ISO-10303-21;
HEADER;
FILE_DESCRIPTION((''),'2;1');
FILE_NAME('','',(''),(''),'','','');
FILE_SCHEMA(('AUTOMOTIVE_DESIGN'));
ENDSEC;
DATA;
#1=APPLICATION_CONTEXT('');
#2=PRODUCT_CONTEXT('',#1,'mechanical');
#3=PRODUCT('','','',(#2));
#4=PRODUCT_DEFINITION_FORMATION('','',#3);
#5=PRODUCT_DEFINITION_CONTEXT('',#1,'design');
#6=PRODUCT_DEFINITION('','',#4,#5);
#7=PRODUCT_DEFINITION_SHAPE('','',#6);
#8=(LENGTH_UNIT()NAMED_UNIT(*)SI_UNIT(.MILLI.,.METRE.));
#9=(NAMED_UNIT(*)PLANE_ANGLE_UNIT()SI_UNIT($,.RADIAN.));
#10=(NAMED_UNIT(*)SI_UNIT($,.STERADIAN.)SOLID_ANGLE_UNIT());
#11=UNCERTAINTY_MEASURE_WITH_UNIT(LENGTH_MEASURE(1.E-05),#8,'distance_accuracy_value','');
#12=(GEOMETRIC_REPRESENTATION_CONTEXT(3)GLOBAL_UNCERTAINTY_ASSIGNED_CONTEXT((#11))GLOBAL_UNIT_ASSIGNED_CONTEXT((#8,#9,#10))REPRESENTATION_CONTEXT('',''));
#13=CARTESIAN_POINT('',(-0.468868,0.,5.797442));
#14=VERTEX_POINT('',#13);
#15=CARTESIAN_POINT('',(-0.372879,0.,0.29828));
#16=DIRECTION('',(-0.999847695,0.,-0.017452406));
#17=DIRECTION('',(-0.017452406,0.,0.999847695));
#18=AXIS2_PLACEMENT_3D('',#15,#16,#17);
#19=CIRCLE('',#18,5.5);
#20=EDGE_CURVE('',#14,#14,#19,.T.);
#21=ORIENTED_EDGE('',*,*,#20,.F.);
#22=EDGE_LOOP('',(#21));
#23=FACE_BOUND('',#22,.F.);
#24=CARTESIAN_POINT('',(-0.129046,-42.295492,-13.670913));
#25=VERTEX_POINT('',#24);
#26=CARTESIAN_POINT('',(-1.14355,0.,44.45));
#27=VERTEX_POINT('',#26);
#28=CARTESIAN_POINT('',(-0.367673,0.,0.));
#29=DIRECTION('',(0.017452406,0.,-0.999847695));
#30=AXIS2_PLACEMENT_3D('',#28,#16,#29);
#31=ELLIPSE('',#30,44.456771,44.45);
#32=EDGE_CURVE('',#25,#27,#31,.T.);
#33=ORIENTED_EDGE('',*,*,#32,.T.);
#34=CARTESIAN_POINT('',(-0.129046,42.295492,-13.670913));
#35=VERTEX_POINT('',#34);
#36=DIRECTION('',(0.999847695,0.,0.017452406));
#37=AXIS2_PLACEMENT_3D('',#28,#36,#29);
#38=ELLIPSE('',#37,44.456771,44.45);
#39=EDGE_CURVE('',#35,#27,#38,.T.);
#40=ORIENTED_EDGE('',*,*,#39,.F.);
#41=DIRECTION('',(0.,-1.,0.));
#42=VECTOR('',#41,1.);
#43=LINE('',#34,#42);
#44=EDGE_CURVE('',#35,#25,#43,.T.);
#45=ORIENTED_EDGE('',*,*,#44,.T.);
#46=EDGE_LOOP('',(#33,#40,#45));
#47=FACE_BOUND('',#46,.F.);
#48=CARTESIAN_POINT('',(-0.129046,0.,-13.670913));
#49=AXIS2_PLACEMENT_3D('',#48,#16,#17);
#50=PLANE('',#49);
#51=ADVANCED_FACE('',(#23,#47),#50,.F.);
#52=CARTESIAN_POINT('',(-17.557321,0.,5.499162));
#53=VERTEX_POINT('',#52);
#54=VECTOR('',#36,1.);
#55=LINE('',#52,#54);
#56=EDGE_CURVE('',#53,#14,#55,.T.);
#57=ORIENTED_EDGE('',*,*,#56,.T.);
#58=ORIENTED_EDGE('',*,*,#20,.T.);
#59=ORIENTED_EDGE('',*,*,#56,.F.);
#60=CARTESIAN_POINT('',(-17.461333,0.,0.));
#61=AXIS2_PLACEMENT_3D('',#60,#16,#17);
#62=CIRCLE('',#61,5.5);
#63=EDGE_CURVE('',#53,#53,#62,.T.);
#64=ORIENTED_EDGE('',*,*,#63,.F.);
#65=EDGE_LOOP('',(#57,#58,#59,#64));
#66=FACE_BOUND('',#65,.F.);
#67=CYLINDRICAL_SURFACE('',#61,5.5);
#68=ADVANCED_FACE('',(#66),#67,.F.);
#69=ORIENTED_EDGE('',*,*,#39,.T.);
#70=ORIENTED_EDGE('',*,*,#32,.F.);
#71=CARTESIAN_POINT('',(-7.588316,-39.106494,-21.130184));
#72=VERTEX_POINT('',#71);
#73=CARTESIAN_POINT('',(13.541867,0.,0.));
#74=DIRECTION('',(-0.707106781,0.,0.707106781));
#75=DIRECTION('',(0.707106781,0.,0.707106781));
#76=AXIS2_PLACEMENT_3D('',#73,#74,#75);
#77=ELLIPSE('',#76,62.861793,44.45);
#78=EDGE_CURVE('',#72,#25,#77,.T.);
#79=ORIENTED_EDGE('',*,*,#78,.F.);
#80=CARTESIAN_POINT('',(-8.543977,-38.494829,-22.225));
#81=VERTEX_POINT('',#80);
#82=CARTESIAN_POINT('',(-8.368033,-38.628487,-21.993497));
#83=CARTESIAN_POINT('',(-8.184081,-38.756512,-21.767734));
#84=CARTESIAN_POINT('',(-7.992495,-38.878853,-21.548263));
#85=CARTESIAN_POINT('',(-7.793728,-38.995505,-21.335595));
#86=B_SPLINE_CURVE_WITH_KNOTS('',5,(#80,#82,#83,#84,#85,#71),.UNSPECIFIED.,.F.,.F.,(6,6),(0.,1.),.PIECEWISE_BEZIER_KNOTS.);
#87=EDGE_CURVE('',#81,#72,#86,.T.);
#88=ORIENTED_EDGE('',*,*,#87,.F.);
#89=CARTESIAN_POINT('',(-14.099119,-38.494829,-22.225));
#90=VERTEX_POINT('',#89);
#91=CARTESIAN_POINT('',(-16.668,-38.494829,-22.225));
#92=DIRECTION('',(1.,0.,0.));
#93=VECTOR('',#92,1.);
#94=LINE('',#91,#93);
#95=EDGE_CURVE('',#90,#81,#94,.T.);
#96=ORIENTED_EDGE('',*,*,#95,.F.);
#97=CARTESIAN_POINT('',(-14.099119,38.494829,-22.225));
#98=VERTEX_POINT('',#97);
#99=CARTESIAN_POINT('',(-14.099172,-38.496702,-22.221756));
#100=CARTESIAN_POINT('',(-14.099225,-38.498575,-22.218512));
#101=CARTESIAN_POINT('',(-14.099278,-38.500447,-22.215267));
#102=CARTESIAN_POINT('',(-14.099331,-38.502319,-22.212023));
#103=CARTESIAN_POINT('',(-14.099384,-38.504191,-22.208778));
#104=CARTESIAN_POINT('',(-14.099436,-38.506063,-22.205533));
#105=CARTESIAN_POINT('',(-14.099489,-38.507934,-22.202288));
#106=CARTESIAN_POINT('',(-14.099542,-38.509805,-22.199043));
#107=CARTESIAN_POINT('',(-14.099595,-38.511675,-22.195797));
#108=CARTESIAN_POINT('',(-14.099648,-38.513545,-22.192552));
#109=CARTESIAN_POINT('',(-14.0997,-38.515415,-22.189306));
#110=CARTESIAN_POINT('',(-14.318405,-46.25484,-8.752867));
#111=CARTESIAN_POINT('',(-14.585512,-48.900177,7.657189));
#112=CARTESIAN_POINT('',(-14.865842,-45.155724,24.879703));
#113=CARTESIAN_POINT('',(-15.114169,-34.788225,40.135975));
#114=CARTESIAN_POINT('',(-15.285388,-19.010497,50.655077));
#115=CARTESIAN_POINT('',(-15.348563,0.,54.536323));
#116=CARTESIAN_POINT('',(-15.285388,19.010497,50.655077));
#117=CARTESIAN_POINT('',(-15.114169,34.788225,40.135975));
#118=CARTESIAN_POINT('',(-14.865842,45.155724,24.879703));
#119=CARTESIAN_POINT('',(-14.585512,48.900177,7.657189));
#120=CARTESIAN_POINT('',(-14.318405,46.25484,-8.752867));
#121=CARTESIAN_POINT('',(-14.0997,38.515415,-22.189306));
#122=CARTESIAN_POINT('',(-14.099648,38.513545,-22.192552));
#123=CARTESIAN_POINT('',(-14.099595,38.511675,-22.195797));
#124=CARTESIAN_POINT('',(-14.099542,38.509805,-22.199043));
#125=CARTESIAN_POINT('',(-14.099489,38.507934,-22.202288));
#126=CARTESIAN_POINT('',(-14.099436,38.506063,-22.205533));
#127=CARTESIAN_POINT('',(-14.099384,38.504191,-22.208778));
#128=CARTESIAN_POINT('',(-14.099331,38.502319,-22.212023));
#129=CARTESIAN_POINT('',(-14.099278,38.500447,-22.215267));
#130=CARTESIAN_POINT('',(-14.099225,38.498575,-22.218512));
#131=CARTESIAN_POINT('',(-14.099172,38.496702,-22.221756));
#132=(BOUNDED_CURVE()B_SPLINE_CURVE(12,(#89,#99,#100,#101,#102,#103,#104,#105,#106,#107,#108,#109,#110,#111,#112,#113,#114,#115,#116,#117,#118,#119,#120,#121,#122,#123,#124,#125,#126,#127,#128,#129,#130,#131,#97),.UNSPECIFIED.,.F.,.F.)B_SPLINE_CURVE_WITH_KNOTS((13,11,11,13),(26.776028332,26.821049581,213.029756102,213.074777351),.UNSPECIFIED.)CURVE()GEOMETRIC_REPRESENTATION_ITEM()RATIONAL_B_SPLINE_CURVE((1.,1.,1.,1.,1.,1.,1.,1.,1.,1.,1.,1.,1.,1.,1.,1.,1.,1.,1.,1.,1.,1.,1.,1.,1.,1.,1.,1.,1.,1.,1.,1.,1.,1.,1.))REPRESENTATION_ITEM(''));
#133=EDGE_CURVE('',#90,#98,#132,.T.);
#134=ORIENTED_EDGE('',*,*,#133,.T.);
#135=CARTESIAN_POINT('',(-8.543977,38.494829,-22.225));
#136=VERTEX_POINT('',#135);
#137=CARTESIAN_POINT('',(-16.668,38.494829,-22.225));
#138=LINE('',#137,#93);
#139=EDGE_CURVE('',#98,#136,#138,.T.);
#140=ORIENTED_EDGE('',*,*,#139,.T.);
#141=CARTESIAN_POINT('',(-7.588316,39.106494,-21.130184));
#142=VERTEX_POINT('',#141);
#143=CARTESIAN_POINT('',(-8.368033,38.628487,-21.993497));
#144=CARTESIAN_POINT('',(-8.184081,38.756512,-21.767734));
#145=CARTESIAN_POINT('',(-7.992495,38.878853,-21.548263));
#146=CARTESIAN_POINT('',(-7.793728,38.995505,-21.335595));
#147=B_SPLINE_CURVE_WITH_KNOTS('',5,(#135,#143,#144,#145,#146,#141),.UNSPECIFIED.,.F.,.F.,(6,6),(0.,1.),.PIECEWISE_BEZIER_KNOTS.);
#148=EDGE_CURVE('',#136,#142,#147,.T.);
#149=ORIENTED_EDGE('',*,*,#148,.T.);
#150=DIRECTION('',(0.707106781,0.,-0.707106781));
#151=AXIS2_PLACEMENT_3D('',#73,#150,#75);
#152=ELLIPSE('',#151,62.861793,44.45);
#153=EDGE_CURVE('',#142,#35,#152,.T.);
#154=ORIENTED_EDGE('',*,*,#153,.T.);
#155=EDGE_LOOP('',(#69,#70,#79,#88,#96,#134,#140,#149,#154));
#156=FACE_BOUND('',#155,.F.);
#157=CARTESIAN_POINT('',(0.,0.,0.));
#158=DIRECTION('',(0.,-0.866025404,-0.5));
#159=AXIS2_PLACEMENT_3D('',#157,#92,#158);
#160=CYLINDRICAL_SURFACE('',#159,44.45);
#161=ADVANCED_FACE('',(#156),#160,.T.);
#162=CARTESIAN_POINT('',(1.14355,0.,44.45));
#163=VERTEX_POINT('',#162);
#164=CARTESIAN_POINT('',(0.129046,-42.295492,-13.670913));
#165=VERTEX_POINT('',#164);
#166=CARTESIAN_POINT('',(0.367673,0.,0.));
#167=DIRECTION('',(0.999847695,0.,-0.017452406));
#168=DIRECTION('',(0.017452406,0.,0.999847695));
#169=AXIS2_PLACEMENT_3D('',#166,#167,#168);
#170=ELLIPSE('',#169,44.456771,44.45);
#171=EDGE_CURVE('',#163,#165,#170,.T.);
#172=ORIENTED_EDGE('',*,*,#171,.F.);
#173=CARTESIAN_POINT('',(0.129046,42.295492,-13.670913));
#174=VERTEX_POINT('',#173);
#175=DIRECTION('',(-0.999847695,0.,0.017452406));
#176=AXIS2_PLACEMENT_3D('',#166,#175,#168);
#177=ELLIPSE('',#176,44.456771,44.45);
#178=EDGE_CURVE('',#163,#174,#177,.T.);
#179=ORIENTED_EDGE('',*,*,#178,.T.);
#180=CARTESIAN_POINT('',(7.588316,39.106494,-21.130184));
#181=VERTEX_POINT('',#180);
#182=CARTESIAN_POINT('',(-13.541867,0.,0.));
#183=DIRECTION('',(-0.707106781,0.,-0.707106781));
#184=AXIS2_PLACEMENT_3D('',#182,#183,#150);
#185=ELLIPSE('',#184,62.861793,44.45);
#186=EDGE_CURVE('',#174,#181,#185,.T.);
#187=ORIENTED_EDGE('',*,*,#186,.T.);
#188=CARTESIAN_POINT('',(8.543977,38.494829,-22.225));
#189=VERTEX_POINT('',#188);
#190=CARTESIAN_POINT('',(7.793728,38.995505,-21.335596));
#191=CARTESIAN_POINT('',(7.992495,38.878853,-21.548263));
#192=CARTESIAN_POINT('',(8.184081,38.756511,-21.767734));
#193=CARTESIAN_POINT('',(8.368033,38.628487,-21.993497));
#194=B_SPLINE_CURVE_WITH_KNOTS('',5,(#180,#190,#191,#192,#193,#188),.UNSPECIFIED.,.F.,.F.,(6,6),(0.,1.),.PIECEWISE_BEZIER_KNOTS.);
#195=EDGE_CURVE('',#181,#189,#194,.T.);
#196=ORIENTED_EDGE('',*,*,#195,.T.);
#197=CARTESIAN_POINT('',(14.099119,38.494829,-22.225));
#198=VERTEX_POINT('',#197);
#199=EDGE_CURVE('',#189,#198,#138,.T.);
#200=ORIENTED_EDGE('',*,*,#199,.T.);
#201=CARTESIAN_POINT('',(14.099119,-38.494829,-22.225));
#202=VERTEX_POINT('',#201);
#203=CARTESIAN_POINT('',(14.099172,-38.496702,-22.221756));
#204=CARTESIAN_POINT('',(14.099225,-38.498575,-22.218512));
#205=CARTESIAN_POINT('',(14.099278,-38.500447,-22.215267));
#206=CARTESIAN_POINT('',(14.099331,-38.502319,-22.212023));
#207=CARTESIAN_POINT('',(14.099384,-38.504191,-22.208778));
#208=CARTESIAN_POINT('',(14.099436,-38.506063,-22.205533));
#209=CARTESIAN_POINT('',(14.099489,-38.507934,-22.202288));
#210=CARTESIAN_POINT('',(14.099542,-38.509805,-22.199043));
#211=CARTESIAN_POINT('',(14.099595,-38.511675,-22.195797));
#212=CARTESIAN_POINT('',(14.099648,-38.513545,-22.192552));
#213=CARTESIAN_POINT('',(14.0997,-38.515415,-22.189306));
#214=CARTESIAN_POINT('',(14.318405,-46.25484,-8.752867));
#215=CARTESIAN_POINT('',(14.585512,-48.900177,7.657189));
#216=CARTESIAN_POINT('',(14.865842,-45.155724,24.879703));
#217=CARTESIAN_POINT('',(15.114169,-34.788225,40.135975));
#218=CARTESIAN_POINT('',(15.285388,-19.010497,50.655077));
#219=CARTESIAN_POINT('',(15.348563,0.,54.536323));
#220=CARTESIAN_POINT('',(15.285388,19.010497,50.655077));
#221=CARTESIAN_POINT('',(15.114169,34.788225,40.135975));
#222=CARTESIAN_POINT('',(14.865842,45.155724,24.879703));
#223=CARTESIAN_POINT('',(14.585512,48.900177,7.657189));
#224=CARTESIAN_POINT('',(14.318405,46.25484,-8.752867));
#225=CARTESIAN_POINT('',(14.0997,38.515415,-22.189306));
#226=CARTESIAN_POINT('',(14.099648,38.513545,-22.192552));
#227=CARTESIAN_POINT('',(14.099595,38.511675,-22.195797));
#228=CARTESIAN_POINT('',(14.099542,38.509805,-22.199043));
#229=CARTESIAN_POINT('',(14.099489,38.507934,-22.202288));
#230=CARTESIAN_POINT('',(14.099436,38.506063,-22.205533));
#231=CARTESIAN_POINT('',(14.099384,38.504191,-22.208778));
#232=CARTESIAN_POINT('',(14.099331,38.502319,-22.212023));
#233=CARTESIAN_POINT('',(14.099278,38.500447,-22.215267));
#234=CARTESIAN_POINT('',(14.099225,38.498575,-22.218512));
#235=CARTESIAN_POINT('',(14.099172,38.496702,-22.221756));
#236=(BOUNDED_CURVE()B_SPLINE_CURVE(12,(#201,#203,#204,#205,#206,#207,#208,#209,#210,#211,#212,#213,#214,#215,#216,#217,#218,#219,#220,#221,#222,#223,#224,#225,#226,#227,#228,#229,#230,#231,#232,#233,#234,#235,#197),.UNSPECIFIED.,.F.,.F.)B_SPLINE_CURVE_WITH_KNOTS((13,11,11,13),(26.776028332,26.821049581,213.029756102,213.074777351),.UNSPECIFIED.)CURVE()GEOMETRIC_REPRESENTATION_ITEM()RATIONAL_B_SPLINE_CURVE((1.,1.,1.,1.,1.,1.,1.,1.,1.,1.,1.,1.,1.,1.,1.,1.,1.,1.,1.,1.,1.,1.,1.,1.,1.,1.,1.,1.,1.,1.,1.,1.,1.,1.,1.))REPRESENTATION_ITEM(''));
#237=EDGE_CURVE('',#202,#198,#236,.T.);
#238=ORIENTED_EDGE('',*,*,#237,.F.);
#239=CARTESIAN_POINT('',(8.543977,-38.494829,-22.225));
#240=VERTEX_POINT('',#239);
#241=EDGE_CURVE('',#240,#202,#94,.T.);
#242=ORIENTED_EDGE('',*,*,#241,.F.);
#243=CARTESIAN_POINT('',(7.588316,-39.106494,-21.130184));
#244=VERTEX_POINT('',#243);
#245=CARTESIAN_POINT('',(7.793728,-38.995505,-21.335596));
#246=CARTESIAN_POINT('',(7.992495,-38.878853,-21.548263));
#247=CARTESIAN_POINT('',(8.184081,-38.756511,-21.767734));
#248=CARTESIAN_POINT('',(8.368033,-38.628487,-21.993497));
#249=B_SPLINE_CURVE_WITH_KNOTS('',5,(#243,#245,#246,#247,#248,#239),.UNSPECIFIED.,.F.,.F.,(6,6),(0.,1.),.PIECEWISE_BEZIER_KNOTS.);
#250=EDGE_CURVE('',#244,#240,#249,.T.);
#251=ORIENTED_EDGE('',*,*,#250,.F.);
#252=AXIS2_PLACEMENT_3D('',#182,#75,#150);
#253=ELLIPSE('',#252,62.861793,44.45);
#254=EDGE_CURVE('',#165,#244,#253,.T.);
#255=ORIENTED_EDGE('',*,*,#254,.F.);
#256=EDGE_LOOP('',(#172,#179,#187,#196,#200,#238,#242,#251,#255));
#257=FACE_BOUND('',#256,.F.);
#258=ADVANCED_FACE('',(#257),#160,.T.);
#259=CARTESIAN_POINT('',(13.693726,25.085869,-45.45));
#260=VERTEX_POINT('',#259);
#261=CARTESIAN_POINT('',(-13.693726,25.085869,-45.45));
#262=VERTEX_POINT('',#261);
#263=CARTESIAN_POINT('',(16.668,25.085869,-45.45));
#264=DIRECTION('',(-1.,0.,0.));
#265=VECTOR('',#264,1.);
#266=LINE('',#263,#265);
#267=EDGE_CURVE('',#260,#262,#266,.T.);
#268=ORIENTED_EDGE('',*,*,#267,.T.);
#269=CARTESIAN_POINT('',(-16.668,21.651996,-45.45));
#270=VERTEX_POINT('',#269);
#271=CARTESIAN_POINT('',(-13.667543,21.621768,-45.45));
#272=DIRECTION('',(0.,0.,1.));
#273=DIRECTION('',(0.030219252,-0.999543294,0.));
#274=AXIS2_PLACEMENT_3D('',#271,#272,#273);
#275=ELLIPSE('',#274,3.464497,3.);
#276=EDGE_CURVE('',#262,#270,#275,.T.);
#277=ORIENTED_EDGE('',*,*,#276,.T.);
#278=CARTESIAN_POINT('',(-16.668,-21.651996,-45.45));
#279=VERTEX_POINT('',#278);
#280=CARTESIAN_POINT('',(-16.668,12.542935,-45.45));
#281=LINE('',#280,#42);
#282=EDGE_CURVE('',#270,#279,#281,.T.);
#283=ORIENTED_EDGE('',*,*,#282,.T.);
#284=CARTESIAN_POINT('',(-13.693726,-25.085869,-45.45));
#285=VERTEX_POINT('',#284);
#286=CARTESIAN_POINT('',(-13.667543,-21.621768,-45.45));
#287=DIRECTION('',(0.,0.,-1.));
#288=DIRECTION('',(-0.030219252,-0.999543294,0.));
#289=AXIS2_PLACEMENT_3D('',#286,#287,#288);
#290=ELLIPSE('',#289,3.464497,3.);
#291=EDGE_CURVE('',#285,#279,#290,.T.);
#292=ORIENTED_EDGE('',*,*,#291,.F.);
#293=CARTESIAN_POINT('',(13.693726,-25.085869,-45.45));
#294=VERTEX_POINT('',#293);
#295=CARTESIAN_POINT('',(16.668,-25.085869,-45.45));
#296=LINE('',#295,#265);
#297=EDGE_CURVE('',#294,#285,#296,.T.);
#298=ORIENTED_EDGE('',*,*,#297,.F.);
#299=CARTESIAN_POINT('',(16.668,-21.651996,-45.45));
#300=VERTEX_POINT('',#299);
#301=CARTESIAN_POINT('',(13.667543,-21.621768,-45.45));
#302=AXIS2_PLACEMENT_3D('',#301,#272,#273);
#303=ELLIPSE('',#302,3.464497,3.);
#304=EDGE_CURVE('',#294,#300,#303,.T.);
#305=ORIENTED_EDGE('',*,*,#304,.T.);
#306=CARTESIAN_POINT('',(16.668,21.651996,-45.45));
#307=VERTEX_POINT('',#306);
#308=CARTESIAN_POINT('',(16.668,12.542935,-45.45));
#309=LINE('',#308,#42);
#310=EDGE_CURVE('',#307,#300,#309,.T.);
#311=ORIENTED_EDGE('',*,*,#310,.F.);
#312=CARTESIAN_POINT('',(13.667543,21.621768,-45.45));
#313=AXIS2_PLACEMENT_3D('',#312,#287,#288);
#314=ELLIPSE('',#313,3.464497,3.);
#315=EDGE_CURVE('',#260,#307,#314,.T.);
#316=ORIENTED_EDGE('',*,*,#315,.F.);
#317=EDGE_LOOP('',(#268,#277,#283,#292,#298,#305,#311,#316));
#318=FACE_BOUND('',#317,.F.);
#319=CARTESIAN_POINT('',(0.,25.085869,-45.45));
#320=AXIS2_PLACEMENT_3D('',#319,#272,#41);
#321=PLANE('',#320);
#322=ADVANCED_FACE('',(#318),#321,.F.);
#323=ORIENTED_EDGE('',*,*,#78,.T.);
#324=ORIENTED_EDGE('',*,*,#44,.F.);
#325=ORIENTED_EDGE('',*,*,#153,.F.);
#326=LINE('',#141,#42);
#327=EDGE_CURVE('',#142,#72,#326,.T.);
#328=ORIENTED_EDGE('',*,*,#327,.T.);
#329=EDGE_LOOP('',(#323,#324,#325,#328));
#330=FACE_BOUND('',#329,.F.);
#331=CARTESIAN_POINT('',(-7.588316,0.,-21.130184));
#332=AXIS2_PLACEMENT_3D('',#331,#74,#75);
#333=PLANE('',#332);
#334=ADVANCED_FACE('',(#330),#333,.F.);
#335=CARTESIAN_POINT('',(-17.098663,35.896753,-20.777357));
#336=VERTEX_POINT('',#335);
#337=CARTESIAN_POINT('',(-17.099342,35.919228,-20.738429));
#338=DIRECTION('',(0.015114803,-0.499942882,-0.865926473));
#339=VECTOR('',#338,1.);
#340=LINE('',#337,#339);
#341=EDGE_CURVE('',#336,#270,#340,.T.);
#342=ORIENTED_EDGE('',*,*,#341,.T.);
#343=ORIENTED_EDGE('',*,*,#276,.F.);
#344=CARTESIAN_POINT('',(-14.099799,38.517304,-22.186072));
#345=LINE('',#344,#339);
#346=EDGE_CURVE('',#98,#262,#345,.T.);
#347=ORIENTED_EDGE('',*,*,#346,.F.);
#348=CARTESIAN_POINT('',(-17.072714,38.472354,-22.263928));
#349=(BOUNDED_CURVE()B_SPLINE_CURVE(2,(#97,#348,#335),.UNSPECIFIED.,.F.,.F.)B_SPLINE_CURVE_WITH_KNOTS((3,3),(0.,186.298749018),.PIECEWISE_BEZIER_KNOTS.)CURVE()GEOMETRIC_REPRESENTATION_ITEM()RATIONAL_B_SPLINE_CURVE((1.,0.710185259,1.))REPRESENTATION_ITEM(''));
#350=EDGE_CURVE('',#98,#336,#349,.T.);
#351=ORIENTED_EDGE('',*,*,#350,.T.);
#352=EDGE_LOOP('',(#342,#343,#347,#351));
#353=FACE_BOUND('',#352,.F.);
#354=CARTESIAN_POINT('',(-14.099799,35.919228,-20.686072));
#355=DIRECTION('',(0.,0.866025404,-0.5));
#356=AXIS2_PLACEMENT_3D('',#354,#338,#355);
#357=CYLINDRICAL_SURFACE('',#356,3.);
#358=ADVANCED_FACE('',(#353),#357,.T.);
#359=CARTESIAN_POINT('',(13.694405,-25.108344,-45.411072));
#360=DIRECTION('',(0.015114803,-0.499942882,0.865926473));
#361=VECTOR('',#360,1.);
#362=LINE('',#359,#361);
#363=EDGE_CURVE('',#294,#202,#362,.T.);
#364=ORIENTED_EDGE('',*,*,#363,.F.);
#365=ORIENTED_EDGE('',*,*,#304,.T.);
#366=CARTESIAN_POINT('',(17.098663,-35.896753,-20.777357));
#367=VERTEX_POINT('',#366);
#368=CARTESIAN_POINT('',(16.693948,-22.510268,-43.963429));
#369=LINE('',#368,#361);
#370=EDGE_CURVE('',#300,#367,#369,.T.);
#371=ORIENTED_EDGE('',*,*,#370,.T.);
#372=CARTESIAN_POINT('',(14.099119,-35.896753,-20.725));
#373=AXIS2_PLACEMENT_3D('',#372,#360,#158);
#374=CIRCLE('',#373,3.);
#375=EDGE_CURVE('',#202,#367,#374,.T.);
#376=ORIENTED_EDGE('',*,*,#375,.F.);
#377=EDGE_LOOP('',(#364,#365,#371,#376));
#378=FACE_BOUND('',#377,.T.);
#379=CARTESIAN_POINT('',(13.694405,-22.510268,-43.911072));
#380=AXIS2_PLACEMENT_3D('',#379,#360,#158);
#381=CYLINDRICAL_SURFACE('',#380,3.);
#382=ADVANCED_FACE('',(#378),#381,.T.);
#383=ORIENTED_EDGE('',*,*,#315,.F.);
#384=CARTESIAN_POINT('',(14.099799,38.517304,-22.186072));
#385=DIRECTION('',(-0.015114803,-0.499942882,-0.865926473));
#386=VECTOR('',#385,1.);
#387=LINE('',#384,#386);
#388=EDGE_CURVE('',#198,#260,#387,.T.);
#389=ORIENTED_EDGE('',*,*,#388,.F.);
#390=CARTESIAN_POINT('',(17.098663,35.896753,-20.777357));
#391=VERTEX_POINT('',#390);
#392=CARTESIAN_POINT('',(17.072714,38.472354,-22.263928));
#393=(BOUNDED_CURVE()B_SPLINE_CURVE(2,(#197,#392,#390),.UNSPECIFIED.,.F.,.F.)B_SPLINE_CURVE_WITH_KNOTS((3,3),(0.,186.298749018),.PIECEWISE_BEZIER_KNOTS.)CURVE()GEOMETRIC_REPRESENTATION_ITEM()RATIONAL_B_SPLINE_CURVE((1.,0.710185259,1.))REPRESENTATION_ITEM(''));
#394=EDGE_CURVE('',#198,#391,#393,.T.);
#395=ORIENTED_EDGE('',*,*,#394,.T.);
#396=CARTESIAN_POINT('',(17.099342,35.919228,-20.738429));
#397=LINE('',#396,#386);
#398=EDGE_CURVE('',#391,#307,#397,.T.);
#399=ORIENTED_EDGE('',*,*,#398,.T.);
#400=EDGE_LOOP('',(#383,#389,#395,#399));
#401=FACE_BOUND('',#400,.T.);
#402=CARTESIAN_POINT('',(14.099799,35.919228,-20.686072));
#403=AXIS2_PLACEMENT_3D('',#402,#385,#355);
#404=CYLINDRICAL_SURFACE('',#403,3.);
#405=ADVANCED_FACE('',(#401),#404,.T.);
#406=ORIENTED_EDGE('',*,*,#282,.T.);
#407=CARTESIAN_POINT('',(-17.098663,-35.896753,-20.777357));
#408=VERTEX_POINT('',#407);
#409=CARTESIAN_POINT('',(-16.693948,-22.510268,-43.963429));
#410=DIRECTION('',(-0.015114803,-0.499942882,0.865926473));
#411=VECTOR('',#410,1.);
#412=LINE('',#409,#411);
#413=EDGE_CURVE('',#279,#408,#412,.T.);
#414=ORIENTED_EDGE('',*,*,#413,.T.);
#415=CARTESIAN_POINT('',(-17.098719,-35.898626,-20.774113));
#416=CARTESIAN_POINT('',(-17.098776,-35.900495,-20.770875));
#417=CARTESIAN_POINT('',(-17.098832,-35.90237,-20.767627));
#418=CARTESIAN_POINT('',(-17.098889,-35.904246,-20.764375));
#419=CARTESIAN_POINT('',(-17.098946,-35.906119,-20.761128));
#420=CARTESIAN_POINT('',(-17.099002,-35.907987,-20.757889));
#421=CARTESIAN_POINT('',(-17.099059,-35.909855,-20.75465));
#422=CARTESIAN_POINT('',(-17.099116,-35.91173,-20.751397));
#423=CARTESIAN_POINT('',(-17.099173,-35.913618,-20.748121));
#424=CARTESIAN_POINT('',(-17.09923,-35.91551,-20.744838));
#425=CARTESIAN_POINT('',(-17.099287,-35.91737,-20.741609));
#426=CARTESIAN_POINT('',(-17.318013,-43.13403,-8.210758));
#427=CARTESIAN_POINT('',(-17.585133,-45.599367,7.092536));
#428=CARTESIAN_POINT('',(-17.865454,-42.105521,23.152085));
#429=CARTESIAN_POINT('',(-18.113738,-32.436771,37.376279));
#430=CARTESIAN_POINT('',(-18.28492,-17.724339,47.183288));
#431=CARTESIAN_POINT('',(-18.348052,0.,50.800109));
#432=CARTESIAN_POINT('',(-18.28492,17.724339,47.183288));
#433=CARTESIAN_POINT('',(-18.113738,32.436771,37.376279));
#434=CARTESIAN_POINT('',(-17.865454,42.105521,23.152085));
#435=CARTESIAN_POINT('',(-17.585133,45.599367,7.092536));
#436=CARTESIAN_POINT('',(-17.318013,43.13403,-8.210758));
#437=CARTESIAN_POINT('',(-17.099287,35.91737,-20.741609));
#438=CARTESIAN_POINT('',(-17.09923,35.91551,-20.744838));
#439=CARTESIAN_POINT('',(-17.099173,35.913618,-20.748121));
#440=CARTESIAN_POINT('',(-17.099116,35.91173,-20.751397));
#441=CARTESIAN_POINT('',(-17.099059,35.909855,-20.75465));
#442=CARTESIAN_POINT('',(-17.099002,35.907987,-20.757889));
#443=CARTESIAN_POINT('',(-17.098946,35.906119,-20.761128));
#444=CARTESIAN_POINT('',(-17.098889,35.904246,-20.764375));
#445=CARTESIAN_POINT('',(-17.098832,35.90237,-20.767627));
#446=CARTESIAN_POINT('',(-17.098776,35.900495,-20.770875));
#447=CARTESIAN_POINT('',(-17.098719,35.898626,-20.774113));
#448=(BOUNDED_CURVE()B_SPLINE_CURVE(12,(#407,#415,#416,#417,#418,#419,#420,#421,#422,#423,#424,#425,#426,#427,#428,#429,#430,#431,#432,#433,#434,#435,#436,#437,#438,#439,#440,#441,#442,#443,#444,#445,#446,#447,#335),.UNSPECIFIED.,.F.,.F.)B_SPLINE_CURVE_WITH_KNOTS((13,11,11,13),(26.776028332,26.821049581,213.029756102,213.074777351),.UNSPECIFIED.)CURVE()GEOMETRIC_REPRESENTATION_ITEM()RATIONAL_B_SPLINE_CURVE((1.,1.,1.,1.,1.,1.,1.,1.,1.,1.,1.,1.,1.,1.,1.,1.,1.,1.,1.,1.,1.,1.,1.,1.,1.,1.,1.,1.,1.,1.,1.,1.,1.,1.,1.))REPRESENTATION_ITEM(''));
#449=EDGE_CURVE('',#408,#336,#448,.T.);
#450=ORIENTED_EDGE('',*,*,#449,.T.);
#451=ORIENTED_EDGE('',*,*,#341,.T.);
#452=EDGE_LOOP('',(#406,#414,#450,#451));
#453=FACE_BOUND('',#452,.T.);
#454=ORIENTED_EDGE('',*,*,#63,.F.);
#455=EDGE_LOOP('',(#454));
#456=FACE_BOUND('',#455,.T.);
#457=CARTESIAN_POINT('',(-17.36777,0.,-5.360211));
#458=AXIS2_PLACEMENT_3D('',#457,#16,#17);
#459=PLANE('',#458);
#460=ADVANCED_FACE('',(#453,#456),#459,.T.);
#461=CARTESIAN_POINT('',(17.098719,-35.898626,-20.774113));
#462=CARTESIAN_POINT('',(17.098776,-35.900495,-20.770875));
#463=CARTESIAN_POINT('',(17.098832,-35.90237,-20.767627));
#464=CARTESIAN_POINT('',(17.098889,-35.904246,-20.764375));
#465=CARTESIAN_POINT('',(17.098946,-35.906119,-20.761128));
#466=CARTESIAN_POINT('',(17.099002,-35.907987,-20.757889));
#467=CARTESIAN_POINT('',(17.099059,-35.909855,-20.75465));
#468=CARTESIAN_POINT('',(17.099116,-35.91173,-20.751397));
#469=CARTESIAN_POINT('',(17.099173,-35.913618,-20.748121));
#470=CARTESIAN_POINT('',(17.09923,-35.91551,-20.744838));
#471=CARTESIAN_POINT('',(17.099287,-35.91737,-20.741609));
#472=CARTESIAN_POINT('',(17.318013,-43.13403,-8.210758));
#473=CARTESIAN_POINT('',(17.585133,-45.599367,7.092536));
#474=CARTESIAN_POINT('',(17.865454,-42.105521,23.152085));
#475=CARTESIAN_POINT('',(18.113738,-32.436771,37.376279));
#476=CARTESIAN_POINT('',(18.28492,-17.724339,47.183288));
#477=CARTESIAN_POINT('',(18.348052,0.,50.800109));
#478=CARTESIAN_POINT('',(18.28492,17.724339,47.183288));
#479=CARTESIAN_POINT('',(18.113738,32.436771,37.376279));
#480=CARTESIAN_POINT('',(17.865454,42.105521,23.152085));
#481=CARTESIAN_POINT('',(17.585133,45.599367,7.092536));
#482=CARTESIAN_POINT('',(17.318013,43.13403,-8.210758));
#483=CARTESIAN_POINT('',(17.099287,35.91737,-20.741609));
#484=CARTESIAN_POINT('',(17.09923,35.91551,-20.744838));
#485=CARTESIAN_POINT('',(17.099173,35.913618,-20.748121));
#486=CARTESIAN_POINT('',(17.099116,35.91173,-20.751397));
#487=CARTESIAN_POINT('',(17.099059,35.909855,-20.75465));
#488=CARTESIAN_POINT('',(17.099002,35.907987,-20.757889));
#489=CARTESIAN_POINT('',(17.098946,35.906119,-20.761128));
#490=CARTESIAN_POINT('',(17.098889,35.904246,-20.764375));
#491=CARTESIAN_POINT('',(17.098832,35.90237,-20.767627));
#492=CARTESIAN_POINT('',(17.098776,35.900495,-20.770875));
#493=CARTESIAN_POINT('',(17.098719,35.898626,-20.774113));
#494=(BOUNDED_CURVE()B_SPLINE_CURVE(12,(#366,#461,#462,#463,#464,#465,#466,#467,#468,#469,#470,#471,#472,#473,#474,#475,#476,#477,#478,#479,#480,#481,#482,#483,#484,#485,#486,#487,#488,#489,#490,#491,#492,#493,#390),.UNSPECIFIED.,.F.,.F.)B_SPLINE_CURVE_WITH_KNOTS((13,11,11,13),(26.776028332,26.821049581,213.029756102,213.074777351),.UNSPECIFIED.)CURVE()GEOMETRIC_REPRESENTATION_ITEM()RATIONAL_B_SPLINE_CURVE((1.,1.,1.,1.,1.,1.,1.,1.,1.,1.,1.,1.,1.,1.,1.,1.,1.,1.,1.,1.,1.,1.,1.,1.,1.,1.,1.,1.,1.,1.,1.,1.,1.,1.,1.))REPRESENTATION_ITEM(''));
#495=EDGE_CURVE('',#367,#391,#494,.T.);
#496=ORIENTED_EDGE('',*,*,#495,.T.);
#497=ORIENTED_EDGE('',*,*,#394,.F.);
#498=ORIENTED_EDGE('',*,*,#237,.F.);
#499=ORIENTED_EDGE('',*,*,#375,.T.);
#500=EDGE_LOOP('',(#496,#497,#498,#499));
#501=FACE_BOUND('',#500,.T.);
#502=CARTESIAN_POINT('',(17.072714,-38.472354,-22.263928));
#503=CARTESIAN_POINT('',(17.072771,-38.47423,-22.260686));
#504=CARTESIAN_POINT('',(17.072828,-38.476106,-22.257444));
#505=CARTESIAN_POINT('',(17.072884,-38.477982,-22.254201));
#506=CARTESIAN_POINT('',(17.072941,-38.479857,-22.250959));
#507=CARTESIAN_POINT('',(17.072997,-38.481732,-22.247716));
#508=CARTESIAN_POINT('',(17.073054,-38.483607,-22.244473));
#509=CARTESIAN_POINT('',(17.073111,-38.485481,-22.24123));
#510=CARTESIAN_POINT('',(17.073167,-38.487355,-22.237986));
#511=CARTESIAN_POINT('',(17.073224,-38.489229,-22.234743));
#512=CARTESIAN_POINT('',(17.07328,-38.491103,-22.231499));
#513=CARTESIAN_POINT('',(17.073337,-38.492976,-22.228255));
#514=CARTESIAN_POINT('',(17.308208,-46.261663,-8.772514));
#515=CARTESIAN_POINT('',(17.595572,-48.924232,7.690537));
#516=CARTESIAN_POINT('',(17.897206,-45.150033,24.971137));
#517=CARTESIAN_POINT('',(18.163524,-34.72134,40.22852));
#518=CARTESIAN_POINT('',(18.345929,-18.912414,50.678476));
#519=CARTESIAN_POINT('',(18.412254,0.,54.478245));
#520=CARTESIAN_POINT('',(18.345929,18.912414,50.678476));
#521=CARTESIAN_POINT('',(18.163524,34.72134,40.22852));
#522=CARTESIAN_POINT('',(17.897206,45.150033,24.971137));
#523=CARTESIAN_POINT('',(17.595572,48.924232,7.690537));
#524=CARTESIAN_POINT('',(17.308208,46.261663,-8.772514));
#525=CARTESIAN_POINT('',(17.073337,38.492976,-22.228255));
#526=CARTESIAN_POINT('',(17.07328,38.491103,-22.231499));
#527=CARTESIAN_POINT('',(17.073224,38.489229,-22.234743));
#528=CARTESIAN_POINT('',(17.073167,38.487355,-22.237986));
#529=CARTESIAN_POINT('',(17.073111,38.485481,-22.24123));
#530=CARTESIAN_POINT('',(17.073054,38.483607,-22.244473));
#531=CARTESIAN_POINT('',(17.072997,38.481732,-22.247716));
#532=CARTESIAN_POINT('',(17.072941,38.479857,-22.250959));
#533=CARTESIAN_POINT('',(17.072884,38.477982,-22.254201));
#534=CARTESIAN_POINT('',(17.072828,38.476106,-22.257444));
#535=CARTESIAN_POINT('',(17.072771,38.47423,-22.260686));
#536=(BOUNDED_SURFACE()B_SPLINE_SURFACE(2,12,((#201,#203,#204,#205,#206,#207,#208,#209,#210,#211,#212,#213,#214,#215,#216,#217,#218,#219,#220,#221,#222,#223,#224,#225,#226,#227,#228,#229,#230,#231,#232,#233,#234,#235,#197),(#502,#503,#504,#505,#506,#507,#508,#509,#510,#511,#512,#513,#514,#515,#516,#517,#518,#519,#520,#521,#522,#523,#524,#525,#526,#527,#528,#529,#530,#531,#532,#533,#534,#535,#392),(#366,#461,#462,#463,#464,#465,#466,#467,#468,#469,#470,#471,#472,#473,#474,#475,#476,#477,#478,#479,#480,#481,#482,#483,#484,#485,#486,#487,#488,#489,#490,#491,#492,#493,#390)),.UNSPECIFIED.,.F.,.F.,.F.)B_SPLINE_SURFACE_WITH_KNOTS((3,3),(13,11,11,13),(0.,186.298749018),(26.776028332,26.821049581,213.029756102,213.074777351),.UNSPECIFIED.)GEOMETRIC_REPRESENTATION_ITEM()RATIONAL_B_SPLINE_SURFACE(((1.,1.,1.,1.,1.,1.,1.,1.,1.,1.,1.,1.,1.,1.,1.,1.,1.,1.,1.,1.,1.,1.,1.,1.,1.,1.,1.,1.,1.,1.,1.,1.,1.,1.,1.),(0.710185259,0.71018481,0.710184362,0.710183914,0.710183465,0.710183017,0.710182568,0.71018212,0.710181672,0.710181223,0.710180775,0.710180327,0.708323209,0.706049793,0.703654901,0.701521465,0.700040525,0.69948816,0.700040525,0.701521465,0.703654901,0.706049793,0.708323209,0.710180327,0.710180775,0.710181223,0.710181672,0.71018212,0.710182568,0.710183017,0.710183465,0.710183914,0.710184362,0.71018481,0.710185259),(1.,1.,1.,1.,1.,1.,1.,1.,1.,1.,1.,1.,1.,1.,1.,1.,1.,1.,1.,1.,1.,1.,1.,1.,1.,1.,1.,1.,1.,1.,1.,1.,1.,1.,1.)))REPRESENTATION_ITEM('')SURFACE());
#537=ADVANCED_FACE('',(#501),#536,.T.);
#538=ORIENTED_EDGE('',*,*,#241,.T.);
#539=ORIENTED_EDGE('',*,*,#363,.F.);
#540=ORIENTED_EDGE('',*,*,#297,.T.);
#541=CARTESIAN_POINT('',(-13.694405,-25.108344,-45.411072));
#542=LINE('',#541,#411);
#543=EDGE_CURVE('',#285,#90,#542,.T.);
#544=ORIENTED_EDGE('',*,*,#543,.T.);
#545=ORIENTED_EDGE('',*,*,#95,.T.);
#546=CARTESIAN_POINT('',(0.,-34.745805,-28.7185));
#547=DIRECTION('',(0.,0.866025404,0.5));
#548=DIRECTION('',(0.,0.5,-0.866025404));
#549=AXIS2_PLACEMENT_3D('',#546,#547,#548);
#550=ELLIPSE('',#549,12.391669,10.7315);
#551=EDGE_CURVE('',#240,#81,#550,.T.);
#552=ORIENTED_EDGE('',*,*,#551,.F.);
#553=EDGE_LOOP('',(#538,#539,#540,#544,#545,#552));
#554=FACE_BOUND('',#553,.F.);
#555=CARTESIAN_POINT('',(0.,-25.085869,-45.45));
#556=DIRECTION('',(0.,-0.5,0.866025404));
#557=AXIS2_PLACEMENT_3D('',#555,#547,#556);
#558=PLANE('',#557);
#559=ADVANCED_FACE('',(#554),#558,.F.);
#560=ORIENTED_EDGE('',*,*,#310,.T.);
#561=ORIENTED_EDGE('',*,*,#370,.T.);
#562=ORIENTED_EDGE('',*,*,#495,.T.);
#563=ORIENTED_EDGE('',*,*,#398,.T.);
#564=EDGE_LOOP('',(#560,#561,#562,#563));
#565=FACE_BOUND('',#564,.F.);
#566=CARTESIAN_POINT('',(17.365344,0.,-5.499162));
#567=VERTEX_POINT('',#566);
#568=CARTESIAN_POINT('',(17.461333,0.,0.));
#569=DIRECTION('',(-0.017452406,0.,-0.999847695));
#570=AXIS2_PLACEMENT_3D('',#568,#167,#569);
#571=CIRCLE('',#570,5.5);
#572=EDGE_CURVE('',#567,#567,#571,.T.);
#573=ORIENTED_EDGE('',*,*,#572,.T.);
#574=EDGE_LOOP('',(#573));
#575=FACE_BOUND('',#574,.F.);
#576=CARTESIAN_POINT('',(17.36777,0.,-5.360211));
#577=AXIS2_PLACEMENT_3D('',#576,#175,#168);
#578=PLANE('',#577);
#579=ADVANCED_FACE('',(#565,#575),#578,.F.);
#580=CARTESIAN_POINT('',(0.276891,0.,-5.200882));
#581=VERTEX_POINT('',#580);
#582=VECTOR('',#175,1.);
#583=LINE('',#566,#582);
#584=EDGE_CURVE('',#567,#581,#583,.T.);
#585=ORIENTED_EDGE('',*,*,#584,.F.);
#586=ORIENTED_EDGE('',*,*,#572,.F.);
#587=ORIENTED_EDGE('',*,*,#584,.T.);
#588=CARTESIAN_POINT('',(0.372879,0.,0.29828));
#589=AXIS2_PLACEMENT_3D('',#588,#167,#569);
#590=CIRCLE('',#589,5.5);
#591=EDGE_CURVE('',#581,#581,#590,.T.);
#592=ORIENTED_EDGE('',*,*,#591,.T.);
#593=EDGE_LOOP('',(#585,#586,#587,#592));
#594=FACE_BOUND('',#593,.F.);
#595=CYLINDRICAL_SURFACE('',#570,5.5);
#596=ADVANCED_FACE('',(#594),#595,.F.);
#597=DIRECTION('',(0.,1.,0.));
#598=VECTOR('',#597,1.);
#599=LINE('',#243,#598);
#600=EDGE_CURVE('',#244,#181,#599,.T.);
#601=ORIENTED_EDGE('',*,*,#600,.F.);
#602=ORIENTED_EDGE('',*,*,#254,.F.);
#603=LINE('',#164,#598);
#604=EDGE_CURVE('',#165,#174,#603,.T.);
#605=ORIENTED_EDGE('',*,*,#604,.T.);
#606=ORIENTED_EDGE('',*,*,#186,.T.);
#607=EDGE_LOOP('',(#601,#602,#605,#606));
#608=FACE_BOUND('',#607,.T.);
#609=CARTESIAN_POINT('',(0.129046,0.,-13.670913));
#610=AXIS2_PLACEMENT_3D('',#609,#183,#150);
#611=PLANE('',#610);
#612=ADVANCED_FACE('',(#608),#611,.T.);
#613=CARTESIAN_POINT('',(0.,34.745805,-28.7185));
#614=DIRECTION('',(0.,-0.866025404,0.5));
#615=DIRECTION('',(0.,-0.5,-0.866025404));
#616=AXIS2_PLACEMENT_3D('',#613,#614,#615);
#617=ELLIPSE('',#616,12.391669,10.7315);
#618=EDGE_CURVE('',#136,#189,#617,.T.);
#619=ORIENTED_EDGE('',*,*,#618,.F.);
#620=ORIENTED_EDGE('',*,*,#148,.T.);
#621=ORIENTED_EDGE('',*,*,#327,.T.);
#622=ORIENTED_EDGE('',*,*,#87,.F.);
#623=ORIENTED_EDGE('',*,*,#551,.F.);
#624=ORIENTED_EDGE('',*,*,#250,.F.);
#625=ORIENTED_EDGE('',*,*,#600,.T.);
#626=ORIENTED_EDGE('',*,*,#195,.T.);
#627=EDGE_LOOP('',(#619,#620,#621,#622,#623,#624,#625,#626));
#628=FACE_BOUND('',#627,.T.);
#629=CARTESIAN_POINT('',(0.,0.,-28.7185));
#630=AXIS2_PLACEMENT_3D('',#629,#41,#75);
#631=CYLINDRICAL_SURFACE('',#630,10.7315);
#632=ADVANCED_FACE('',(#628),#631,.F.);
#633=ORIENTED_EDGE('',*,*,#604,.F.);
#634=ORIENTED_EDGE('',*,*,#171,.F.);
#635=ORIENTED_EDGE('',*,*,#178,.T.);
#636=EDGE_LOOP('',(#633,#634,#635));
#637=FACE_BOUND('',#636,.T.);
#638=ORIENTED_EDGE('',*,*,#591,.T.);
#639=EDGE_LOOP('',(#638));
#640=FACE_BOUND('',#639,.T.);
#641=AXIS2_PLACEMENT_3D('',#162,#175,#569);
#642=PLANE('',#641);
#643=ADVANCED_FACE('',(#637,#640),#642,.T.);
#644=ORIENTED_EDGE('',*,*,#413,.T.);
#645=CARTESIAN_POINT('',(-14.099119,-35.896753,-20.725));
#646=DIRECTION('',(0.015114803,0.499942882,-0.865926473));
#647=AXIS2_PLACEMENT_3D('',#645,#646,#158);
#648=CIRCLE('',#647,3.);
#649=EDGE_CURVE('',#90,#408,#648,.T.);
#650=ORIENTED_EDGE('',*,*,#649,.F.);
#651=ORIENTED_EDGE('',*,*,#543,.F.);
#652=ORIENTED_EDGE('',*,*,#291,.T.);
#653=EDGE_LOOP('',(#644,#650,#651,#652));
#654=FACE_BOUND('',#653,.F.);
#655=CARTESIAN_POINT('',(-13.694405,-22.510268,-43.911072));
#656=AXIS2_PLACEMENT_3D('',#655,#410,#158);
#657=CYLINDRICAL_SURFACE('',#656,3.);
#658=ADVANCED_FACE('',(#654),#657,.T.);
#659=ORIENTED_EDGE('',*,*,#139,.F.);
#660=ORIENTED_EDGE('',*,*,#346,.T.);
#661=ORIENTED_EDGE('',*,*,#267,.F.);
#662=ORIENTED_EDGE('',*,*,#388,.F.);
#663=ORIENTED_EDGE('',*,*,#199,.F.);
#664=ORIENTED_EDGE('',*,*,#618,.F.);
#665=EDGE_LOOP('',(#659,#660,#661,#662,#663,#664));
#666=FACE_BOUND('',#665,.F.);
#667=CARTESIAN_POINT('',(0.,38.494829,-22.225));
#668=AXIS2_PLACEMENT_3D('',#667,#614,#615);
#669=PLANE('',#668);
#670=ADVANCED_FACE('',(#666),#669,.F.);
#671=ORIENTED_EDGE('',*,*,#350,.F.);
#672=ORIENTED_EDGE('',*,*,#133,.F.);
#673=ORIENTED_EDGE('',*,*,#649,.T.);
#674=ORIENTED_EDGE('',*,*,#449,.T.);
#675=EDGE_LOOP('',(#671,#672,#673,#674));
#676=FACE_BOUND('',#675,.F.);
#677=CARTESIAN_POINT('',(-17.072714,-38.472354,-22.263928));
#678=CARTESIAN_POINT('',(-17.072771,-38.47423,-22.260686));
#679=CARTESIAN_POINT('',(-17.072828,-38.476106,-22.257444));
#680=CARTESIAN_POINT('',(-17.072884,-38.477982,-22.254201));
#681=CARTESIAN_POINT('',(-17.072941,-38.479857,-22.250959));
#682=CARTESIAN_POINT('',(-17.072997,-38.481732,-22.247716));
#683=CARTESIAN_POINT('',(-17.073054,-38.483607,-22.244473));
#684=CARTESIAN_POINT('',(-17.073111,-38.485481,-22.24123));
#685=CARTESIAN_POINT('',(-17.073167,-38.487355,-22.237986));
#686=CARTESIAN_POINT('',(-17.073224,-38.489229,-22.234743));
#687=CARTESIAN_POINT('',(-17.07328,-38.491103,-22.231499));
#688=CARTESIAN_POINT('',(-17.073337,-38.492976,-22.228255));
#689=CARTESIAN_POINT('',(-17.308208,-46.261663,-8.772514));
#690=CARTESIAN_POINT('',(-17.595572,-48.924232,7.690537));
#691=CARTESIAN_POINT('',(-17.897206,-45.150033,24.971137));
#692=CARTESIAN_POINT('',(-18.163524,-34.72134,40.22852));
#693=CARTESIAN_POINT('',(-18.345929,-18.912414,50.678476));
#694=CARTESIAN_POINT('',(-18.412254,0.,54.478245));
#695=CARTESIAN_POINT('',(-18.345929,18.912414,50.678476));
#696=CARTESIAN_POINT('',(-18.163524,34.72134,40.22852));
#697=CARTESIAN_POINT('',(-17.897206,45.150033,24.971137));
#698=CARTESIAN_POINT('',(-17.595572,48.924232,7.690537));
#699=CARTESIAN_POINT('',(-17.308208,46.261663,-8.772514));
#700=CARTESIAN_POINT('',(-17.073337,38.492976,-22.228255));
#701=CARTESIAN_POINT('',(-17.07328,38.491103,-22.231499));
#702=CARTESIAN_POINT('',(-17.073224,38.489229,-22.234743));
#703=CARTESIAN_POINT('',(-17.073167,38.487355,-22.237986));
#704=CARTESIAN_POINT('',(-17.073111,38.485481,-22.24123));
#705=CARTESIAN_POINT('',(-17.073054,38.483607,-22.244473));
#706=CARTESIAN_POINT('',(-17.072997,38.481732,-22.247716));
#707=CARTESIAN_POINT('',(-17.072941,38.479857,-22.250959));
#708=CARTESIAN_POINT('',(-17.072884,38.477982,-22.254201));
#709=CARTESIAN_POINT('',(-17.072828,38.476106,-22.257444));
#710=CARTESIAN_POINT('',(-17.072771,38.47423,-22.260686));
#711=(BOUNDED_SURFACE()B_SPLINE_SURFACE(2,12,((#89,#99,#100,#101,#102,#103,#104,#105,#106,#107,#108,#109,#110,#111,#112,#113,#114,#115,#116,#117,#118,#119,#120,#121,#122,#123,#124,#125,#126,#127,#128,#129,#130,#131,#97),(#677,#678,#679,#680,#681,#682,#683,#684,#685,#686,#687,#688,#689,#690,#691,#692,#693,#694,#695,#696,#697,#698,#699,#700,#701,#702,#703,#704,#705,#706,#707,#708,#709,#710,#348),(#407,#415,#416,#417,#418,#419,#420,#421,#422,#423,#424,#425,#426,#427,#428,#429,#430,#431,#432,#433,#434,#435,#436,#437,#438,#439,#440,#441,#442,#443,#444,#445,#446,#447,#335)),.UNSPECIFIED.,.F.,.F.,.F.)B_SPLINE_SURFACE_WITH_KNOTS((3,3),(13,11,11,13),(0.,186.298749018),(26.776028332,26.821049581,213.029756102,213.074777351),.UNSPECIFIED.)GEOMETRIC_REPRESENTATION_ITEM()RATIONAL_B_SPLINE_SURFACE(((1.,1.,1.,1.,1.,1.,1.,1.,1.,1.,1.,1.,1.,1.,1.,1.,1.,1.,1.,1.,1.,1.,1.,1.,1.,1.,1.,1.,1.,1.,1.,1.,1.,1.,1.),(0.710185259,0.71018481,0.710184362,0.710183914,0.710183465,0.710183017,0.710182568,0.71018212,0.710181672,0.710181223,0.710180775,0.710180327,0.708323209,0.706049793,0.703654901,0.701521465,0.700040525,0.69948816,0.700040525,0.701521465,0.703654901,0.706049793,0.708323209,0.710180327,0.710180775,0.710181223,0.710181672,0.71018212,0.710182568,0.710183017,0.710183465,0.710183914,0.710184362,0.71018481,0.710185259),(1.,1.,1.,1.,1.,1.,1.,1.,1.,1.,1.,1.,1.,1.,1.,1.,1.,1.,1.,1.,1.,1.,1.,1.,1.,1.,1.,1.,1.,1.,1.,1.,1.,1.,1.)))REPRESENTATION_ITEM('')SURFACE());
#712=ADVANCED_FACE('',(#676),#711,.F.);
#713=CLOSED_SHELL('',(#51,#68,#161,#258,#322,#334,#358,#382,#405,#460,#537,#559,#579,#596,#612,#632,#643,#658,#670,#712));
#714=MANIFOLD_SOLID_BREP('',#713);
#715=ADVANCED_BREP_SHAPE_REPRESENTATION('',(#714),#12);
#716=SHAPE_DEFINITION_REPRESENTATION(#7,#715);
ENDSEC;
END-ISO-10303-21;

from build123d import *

# Parameters (mm, degrees)
BOSS_EXTRUDE1_DEPTH     = 16.668
CUT_EXTRUDE1_DEPTH      = 45.45
CUT_EXTRUDE1_DEPTH_BACK = 45.45
DRAFT1_ANGLE            = 1
CUT_EXTRUDE2_REACH      = 38.469
SKETCH3_R               = 5.5
CUT_EXTRUDE4_REACH      = 38.469
SKETCH5_R               = 5.5
FILLET1_R               = 3


with BuildPart() as part:
    # Sketch1 → Boss-Extrude1 (new body, symmetric)
    with BuildSketch(Plane(origin=(0, 0, 0), x_dir=(0, 0, -1), z_dir=(1, 0, 0))):
        with BuildLine():
            Line((22.225, 38.494829198), (45.45, 25.085869196))
            Line((45.45, 25.085869196), (45.45, -25.085869196))
            Line((45.45, -25.085869196), (22.225, -38.494829198))
            ThreePointArc((22.225, -38.494829198), (-44.45, 0), (22.225, 38.494829198))
        make_face()
    extrude(amount=BOSS_EXTRUDE1_DEPTH, both=True)

    # Sketch2 → Cut-Extrude1 (cut, two sides)
    with BuildSketch(Plane(origin=(0, 0, 0), x_dir=(1, 0, 0), z_dir=(0, 1, 0))) as cut_extrude1_sk:
        with BuildLine():
            Line((-7.588316422, 21.130183578), (-0.129046134, 13.670913289))
            Line((-0.129046134, 13.670913289), (-1.143550449, -44.45))
            Line((-1.143550449, -44.45), (1.143550449, -44.45))
            Line((1.143550449, -44.45), (0.129046134, 13.670913289))
            Line((0.129046134, 13.670913289), (7.588316422, 21.130183578))
            ThreePointArc((7.588316422, 21.130183578), (0, 39.45), (-7.588316422, 21.130183578))
        make_face()
    extrude(amount=CUT_EXTRUDE1_DEPTH, mode=Mode.SUBTRACT)
    extrude(cut_extrude1_sk.sketch, amount=-CUT_EXTRUDE1_DEPTH_BACK, mode=Mode.SUBTRACT)

    # Draft1
    draft1_faces = [part.faces().sort_by_distance(p)[0] for p in [
        (16.668, 0, -1.658648034),
        (-16.668, 0, -1.658648034),
    ]]
    draft(draft1_faces, Plane(origin=(16.668, 25.085869196, -45.45), x_dir=(-1, 0, 0), z_dir=(0, 0, -1)), DRAFT1_ANGLE)

    # Sketch3 → Cut-Extrude2 (cut, up to next)
    with BuildSketch(Plane(origin=(17.456014215, 0, -0.304695862), x_dir=(-0.017452406, 0, -0.999847695), z_dir=(0.999847695, 0, -0.017452406)), mode=Mode.PRIVATE) as cut_extrude2_sk1:
        with Locations((-0.304742275, 0)):
            Circle(SKETCH3_R)
    cut_extrude2_tool1 = extrude(cut_extrude2_sk1.sketch, amount=-CUT_EXTRUDE2_REACH, mode=Mode.PRIVATE) & part.part
    add(cut_extrude2_tool1.solids().sort_by_distance((17.461333, 0, 0))[0], mode=Mode.SUBTRACT)

    # Sketch5 → Cut-Extrude4 (cut, up to next)
    with BuildSketch(Plane(origin=(-17.456014215, 0, -0.304695862), x_dir=(-0.017452406, 0, 0.999847695), z_dir=(-0.999847695, 0, -0.017452406)), mode=Mode.PRIVATE) as cut_extrude4_sk1:
        with Locations((0.304742275, 0)):
            Circle(SKETCH5_R)
    cut_extrude4_tool1 = extrude(cut_extrude4_sk1.sketch, amount=-CUT_EXTRUDE4_REACH, mode=Mode.PRIVATE) & part.part
    add(cut_extrude4_tool1.solids().sort_by_distance((-17.461333, 0, 0))[0], mode=Mode.SUBTRACT)

    # Fillet1
    fillet1_edges = [part.edges().sort_by_distance(p)[0] for p in [
        (16.870696941, 31.790349197, -33.8375),
        (18.237210337, 0.000220739, 44.449999999),
        (-16.870696941, 31.790349197, -33.8375),
        (-16.870697084, -31.790353899, -33.837491856),
        (-18.237210337, 9.404e-06, 44.45),
        (16.870700278, -31.790459554, -33.837308856),
    ]]
    fillet(fillet1_edges, radius=FILLET1_R)


solid = part.part
